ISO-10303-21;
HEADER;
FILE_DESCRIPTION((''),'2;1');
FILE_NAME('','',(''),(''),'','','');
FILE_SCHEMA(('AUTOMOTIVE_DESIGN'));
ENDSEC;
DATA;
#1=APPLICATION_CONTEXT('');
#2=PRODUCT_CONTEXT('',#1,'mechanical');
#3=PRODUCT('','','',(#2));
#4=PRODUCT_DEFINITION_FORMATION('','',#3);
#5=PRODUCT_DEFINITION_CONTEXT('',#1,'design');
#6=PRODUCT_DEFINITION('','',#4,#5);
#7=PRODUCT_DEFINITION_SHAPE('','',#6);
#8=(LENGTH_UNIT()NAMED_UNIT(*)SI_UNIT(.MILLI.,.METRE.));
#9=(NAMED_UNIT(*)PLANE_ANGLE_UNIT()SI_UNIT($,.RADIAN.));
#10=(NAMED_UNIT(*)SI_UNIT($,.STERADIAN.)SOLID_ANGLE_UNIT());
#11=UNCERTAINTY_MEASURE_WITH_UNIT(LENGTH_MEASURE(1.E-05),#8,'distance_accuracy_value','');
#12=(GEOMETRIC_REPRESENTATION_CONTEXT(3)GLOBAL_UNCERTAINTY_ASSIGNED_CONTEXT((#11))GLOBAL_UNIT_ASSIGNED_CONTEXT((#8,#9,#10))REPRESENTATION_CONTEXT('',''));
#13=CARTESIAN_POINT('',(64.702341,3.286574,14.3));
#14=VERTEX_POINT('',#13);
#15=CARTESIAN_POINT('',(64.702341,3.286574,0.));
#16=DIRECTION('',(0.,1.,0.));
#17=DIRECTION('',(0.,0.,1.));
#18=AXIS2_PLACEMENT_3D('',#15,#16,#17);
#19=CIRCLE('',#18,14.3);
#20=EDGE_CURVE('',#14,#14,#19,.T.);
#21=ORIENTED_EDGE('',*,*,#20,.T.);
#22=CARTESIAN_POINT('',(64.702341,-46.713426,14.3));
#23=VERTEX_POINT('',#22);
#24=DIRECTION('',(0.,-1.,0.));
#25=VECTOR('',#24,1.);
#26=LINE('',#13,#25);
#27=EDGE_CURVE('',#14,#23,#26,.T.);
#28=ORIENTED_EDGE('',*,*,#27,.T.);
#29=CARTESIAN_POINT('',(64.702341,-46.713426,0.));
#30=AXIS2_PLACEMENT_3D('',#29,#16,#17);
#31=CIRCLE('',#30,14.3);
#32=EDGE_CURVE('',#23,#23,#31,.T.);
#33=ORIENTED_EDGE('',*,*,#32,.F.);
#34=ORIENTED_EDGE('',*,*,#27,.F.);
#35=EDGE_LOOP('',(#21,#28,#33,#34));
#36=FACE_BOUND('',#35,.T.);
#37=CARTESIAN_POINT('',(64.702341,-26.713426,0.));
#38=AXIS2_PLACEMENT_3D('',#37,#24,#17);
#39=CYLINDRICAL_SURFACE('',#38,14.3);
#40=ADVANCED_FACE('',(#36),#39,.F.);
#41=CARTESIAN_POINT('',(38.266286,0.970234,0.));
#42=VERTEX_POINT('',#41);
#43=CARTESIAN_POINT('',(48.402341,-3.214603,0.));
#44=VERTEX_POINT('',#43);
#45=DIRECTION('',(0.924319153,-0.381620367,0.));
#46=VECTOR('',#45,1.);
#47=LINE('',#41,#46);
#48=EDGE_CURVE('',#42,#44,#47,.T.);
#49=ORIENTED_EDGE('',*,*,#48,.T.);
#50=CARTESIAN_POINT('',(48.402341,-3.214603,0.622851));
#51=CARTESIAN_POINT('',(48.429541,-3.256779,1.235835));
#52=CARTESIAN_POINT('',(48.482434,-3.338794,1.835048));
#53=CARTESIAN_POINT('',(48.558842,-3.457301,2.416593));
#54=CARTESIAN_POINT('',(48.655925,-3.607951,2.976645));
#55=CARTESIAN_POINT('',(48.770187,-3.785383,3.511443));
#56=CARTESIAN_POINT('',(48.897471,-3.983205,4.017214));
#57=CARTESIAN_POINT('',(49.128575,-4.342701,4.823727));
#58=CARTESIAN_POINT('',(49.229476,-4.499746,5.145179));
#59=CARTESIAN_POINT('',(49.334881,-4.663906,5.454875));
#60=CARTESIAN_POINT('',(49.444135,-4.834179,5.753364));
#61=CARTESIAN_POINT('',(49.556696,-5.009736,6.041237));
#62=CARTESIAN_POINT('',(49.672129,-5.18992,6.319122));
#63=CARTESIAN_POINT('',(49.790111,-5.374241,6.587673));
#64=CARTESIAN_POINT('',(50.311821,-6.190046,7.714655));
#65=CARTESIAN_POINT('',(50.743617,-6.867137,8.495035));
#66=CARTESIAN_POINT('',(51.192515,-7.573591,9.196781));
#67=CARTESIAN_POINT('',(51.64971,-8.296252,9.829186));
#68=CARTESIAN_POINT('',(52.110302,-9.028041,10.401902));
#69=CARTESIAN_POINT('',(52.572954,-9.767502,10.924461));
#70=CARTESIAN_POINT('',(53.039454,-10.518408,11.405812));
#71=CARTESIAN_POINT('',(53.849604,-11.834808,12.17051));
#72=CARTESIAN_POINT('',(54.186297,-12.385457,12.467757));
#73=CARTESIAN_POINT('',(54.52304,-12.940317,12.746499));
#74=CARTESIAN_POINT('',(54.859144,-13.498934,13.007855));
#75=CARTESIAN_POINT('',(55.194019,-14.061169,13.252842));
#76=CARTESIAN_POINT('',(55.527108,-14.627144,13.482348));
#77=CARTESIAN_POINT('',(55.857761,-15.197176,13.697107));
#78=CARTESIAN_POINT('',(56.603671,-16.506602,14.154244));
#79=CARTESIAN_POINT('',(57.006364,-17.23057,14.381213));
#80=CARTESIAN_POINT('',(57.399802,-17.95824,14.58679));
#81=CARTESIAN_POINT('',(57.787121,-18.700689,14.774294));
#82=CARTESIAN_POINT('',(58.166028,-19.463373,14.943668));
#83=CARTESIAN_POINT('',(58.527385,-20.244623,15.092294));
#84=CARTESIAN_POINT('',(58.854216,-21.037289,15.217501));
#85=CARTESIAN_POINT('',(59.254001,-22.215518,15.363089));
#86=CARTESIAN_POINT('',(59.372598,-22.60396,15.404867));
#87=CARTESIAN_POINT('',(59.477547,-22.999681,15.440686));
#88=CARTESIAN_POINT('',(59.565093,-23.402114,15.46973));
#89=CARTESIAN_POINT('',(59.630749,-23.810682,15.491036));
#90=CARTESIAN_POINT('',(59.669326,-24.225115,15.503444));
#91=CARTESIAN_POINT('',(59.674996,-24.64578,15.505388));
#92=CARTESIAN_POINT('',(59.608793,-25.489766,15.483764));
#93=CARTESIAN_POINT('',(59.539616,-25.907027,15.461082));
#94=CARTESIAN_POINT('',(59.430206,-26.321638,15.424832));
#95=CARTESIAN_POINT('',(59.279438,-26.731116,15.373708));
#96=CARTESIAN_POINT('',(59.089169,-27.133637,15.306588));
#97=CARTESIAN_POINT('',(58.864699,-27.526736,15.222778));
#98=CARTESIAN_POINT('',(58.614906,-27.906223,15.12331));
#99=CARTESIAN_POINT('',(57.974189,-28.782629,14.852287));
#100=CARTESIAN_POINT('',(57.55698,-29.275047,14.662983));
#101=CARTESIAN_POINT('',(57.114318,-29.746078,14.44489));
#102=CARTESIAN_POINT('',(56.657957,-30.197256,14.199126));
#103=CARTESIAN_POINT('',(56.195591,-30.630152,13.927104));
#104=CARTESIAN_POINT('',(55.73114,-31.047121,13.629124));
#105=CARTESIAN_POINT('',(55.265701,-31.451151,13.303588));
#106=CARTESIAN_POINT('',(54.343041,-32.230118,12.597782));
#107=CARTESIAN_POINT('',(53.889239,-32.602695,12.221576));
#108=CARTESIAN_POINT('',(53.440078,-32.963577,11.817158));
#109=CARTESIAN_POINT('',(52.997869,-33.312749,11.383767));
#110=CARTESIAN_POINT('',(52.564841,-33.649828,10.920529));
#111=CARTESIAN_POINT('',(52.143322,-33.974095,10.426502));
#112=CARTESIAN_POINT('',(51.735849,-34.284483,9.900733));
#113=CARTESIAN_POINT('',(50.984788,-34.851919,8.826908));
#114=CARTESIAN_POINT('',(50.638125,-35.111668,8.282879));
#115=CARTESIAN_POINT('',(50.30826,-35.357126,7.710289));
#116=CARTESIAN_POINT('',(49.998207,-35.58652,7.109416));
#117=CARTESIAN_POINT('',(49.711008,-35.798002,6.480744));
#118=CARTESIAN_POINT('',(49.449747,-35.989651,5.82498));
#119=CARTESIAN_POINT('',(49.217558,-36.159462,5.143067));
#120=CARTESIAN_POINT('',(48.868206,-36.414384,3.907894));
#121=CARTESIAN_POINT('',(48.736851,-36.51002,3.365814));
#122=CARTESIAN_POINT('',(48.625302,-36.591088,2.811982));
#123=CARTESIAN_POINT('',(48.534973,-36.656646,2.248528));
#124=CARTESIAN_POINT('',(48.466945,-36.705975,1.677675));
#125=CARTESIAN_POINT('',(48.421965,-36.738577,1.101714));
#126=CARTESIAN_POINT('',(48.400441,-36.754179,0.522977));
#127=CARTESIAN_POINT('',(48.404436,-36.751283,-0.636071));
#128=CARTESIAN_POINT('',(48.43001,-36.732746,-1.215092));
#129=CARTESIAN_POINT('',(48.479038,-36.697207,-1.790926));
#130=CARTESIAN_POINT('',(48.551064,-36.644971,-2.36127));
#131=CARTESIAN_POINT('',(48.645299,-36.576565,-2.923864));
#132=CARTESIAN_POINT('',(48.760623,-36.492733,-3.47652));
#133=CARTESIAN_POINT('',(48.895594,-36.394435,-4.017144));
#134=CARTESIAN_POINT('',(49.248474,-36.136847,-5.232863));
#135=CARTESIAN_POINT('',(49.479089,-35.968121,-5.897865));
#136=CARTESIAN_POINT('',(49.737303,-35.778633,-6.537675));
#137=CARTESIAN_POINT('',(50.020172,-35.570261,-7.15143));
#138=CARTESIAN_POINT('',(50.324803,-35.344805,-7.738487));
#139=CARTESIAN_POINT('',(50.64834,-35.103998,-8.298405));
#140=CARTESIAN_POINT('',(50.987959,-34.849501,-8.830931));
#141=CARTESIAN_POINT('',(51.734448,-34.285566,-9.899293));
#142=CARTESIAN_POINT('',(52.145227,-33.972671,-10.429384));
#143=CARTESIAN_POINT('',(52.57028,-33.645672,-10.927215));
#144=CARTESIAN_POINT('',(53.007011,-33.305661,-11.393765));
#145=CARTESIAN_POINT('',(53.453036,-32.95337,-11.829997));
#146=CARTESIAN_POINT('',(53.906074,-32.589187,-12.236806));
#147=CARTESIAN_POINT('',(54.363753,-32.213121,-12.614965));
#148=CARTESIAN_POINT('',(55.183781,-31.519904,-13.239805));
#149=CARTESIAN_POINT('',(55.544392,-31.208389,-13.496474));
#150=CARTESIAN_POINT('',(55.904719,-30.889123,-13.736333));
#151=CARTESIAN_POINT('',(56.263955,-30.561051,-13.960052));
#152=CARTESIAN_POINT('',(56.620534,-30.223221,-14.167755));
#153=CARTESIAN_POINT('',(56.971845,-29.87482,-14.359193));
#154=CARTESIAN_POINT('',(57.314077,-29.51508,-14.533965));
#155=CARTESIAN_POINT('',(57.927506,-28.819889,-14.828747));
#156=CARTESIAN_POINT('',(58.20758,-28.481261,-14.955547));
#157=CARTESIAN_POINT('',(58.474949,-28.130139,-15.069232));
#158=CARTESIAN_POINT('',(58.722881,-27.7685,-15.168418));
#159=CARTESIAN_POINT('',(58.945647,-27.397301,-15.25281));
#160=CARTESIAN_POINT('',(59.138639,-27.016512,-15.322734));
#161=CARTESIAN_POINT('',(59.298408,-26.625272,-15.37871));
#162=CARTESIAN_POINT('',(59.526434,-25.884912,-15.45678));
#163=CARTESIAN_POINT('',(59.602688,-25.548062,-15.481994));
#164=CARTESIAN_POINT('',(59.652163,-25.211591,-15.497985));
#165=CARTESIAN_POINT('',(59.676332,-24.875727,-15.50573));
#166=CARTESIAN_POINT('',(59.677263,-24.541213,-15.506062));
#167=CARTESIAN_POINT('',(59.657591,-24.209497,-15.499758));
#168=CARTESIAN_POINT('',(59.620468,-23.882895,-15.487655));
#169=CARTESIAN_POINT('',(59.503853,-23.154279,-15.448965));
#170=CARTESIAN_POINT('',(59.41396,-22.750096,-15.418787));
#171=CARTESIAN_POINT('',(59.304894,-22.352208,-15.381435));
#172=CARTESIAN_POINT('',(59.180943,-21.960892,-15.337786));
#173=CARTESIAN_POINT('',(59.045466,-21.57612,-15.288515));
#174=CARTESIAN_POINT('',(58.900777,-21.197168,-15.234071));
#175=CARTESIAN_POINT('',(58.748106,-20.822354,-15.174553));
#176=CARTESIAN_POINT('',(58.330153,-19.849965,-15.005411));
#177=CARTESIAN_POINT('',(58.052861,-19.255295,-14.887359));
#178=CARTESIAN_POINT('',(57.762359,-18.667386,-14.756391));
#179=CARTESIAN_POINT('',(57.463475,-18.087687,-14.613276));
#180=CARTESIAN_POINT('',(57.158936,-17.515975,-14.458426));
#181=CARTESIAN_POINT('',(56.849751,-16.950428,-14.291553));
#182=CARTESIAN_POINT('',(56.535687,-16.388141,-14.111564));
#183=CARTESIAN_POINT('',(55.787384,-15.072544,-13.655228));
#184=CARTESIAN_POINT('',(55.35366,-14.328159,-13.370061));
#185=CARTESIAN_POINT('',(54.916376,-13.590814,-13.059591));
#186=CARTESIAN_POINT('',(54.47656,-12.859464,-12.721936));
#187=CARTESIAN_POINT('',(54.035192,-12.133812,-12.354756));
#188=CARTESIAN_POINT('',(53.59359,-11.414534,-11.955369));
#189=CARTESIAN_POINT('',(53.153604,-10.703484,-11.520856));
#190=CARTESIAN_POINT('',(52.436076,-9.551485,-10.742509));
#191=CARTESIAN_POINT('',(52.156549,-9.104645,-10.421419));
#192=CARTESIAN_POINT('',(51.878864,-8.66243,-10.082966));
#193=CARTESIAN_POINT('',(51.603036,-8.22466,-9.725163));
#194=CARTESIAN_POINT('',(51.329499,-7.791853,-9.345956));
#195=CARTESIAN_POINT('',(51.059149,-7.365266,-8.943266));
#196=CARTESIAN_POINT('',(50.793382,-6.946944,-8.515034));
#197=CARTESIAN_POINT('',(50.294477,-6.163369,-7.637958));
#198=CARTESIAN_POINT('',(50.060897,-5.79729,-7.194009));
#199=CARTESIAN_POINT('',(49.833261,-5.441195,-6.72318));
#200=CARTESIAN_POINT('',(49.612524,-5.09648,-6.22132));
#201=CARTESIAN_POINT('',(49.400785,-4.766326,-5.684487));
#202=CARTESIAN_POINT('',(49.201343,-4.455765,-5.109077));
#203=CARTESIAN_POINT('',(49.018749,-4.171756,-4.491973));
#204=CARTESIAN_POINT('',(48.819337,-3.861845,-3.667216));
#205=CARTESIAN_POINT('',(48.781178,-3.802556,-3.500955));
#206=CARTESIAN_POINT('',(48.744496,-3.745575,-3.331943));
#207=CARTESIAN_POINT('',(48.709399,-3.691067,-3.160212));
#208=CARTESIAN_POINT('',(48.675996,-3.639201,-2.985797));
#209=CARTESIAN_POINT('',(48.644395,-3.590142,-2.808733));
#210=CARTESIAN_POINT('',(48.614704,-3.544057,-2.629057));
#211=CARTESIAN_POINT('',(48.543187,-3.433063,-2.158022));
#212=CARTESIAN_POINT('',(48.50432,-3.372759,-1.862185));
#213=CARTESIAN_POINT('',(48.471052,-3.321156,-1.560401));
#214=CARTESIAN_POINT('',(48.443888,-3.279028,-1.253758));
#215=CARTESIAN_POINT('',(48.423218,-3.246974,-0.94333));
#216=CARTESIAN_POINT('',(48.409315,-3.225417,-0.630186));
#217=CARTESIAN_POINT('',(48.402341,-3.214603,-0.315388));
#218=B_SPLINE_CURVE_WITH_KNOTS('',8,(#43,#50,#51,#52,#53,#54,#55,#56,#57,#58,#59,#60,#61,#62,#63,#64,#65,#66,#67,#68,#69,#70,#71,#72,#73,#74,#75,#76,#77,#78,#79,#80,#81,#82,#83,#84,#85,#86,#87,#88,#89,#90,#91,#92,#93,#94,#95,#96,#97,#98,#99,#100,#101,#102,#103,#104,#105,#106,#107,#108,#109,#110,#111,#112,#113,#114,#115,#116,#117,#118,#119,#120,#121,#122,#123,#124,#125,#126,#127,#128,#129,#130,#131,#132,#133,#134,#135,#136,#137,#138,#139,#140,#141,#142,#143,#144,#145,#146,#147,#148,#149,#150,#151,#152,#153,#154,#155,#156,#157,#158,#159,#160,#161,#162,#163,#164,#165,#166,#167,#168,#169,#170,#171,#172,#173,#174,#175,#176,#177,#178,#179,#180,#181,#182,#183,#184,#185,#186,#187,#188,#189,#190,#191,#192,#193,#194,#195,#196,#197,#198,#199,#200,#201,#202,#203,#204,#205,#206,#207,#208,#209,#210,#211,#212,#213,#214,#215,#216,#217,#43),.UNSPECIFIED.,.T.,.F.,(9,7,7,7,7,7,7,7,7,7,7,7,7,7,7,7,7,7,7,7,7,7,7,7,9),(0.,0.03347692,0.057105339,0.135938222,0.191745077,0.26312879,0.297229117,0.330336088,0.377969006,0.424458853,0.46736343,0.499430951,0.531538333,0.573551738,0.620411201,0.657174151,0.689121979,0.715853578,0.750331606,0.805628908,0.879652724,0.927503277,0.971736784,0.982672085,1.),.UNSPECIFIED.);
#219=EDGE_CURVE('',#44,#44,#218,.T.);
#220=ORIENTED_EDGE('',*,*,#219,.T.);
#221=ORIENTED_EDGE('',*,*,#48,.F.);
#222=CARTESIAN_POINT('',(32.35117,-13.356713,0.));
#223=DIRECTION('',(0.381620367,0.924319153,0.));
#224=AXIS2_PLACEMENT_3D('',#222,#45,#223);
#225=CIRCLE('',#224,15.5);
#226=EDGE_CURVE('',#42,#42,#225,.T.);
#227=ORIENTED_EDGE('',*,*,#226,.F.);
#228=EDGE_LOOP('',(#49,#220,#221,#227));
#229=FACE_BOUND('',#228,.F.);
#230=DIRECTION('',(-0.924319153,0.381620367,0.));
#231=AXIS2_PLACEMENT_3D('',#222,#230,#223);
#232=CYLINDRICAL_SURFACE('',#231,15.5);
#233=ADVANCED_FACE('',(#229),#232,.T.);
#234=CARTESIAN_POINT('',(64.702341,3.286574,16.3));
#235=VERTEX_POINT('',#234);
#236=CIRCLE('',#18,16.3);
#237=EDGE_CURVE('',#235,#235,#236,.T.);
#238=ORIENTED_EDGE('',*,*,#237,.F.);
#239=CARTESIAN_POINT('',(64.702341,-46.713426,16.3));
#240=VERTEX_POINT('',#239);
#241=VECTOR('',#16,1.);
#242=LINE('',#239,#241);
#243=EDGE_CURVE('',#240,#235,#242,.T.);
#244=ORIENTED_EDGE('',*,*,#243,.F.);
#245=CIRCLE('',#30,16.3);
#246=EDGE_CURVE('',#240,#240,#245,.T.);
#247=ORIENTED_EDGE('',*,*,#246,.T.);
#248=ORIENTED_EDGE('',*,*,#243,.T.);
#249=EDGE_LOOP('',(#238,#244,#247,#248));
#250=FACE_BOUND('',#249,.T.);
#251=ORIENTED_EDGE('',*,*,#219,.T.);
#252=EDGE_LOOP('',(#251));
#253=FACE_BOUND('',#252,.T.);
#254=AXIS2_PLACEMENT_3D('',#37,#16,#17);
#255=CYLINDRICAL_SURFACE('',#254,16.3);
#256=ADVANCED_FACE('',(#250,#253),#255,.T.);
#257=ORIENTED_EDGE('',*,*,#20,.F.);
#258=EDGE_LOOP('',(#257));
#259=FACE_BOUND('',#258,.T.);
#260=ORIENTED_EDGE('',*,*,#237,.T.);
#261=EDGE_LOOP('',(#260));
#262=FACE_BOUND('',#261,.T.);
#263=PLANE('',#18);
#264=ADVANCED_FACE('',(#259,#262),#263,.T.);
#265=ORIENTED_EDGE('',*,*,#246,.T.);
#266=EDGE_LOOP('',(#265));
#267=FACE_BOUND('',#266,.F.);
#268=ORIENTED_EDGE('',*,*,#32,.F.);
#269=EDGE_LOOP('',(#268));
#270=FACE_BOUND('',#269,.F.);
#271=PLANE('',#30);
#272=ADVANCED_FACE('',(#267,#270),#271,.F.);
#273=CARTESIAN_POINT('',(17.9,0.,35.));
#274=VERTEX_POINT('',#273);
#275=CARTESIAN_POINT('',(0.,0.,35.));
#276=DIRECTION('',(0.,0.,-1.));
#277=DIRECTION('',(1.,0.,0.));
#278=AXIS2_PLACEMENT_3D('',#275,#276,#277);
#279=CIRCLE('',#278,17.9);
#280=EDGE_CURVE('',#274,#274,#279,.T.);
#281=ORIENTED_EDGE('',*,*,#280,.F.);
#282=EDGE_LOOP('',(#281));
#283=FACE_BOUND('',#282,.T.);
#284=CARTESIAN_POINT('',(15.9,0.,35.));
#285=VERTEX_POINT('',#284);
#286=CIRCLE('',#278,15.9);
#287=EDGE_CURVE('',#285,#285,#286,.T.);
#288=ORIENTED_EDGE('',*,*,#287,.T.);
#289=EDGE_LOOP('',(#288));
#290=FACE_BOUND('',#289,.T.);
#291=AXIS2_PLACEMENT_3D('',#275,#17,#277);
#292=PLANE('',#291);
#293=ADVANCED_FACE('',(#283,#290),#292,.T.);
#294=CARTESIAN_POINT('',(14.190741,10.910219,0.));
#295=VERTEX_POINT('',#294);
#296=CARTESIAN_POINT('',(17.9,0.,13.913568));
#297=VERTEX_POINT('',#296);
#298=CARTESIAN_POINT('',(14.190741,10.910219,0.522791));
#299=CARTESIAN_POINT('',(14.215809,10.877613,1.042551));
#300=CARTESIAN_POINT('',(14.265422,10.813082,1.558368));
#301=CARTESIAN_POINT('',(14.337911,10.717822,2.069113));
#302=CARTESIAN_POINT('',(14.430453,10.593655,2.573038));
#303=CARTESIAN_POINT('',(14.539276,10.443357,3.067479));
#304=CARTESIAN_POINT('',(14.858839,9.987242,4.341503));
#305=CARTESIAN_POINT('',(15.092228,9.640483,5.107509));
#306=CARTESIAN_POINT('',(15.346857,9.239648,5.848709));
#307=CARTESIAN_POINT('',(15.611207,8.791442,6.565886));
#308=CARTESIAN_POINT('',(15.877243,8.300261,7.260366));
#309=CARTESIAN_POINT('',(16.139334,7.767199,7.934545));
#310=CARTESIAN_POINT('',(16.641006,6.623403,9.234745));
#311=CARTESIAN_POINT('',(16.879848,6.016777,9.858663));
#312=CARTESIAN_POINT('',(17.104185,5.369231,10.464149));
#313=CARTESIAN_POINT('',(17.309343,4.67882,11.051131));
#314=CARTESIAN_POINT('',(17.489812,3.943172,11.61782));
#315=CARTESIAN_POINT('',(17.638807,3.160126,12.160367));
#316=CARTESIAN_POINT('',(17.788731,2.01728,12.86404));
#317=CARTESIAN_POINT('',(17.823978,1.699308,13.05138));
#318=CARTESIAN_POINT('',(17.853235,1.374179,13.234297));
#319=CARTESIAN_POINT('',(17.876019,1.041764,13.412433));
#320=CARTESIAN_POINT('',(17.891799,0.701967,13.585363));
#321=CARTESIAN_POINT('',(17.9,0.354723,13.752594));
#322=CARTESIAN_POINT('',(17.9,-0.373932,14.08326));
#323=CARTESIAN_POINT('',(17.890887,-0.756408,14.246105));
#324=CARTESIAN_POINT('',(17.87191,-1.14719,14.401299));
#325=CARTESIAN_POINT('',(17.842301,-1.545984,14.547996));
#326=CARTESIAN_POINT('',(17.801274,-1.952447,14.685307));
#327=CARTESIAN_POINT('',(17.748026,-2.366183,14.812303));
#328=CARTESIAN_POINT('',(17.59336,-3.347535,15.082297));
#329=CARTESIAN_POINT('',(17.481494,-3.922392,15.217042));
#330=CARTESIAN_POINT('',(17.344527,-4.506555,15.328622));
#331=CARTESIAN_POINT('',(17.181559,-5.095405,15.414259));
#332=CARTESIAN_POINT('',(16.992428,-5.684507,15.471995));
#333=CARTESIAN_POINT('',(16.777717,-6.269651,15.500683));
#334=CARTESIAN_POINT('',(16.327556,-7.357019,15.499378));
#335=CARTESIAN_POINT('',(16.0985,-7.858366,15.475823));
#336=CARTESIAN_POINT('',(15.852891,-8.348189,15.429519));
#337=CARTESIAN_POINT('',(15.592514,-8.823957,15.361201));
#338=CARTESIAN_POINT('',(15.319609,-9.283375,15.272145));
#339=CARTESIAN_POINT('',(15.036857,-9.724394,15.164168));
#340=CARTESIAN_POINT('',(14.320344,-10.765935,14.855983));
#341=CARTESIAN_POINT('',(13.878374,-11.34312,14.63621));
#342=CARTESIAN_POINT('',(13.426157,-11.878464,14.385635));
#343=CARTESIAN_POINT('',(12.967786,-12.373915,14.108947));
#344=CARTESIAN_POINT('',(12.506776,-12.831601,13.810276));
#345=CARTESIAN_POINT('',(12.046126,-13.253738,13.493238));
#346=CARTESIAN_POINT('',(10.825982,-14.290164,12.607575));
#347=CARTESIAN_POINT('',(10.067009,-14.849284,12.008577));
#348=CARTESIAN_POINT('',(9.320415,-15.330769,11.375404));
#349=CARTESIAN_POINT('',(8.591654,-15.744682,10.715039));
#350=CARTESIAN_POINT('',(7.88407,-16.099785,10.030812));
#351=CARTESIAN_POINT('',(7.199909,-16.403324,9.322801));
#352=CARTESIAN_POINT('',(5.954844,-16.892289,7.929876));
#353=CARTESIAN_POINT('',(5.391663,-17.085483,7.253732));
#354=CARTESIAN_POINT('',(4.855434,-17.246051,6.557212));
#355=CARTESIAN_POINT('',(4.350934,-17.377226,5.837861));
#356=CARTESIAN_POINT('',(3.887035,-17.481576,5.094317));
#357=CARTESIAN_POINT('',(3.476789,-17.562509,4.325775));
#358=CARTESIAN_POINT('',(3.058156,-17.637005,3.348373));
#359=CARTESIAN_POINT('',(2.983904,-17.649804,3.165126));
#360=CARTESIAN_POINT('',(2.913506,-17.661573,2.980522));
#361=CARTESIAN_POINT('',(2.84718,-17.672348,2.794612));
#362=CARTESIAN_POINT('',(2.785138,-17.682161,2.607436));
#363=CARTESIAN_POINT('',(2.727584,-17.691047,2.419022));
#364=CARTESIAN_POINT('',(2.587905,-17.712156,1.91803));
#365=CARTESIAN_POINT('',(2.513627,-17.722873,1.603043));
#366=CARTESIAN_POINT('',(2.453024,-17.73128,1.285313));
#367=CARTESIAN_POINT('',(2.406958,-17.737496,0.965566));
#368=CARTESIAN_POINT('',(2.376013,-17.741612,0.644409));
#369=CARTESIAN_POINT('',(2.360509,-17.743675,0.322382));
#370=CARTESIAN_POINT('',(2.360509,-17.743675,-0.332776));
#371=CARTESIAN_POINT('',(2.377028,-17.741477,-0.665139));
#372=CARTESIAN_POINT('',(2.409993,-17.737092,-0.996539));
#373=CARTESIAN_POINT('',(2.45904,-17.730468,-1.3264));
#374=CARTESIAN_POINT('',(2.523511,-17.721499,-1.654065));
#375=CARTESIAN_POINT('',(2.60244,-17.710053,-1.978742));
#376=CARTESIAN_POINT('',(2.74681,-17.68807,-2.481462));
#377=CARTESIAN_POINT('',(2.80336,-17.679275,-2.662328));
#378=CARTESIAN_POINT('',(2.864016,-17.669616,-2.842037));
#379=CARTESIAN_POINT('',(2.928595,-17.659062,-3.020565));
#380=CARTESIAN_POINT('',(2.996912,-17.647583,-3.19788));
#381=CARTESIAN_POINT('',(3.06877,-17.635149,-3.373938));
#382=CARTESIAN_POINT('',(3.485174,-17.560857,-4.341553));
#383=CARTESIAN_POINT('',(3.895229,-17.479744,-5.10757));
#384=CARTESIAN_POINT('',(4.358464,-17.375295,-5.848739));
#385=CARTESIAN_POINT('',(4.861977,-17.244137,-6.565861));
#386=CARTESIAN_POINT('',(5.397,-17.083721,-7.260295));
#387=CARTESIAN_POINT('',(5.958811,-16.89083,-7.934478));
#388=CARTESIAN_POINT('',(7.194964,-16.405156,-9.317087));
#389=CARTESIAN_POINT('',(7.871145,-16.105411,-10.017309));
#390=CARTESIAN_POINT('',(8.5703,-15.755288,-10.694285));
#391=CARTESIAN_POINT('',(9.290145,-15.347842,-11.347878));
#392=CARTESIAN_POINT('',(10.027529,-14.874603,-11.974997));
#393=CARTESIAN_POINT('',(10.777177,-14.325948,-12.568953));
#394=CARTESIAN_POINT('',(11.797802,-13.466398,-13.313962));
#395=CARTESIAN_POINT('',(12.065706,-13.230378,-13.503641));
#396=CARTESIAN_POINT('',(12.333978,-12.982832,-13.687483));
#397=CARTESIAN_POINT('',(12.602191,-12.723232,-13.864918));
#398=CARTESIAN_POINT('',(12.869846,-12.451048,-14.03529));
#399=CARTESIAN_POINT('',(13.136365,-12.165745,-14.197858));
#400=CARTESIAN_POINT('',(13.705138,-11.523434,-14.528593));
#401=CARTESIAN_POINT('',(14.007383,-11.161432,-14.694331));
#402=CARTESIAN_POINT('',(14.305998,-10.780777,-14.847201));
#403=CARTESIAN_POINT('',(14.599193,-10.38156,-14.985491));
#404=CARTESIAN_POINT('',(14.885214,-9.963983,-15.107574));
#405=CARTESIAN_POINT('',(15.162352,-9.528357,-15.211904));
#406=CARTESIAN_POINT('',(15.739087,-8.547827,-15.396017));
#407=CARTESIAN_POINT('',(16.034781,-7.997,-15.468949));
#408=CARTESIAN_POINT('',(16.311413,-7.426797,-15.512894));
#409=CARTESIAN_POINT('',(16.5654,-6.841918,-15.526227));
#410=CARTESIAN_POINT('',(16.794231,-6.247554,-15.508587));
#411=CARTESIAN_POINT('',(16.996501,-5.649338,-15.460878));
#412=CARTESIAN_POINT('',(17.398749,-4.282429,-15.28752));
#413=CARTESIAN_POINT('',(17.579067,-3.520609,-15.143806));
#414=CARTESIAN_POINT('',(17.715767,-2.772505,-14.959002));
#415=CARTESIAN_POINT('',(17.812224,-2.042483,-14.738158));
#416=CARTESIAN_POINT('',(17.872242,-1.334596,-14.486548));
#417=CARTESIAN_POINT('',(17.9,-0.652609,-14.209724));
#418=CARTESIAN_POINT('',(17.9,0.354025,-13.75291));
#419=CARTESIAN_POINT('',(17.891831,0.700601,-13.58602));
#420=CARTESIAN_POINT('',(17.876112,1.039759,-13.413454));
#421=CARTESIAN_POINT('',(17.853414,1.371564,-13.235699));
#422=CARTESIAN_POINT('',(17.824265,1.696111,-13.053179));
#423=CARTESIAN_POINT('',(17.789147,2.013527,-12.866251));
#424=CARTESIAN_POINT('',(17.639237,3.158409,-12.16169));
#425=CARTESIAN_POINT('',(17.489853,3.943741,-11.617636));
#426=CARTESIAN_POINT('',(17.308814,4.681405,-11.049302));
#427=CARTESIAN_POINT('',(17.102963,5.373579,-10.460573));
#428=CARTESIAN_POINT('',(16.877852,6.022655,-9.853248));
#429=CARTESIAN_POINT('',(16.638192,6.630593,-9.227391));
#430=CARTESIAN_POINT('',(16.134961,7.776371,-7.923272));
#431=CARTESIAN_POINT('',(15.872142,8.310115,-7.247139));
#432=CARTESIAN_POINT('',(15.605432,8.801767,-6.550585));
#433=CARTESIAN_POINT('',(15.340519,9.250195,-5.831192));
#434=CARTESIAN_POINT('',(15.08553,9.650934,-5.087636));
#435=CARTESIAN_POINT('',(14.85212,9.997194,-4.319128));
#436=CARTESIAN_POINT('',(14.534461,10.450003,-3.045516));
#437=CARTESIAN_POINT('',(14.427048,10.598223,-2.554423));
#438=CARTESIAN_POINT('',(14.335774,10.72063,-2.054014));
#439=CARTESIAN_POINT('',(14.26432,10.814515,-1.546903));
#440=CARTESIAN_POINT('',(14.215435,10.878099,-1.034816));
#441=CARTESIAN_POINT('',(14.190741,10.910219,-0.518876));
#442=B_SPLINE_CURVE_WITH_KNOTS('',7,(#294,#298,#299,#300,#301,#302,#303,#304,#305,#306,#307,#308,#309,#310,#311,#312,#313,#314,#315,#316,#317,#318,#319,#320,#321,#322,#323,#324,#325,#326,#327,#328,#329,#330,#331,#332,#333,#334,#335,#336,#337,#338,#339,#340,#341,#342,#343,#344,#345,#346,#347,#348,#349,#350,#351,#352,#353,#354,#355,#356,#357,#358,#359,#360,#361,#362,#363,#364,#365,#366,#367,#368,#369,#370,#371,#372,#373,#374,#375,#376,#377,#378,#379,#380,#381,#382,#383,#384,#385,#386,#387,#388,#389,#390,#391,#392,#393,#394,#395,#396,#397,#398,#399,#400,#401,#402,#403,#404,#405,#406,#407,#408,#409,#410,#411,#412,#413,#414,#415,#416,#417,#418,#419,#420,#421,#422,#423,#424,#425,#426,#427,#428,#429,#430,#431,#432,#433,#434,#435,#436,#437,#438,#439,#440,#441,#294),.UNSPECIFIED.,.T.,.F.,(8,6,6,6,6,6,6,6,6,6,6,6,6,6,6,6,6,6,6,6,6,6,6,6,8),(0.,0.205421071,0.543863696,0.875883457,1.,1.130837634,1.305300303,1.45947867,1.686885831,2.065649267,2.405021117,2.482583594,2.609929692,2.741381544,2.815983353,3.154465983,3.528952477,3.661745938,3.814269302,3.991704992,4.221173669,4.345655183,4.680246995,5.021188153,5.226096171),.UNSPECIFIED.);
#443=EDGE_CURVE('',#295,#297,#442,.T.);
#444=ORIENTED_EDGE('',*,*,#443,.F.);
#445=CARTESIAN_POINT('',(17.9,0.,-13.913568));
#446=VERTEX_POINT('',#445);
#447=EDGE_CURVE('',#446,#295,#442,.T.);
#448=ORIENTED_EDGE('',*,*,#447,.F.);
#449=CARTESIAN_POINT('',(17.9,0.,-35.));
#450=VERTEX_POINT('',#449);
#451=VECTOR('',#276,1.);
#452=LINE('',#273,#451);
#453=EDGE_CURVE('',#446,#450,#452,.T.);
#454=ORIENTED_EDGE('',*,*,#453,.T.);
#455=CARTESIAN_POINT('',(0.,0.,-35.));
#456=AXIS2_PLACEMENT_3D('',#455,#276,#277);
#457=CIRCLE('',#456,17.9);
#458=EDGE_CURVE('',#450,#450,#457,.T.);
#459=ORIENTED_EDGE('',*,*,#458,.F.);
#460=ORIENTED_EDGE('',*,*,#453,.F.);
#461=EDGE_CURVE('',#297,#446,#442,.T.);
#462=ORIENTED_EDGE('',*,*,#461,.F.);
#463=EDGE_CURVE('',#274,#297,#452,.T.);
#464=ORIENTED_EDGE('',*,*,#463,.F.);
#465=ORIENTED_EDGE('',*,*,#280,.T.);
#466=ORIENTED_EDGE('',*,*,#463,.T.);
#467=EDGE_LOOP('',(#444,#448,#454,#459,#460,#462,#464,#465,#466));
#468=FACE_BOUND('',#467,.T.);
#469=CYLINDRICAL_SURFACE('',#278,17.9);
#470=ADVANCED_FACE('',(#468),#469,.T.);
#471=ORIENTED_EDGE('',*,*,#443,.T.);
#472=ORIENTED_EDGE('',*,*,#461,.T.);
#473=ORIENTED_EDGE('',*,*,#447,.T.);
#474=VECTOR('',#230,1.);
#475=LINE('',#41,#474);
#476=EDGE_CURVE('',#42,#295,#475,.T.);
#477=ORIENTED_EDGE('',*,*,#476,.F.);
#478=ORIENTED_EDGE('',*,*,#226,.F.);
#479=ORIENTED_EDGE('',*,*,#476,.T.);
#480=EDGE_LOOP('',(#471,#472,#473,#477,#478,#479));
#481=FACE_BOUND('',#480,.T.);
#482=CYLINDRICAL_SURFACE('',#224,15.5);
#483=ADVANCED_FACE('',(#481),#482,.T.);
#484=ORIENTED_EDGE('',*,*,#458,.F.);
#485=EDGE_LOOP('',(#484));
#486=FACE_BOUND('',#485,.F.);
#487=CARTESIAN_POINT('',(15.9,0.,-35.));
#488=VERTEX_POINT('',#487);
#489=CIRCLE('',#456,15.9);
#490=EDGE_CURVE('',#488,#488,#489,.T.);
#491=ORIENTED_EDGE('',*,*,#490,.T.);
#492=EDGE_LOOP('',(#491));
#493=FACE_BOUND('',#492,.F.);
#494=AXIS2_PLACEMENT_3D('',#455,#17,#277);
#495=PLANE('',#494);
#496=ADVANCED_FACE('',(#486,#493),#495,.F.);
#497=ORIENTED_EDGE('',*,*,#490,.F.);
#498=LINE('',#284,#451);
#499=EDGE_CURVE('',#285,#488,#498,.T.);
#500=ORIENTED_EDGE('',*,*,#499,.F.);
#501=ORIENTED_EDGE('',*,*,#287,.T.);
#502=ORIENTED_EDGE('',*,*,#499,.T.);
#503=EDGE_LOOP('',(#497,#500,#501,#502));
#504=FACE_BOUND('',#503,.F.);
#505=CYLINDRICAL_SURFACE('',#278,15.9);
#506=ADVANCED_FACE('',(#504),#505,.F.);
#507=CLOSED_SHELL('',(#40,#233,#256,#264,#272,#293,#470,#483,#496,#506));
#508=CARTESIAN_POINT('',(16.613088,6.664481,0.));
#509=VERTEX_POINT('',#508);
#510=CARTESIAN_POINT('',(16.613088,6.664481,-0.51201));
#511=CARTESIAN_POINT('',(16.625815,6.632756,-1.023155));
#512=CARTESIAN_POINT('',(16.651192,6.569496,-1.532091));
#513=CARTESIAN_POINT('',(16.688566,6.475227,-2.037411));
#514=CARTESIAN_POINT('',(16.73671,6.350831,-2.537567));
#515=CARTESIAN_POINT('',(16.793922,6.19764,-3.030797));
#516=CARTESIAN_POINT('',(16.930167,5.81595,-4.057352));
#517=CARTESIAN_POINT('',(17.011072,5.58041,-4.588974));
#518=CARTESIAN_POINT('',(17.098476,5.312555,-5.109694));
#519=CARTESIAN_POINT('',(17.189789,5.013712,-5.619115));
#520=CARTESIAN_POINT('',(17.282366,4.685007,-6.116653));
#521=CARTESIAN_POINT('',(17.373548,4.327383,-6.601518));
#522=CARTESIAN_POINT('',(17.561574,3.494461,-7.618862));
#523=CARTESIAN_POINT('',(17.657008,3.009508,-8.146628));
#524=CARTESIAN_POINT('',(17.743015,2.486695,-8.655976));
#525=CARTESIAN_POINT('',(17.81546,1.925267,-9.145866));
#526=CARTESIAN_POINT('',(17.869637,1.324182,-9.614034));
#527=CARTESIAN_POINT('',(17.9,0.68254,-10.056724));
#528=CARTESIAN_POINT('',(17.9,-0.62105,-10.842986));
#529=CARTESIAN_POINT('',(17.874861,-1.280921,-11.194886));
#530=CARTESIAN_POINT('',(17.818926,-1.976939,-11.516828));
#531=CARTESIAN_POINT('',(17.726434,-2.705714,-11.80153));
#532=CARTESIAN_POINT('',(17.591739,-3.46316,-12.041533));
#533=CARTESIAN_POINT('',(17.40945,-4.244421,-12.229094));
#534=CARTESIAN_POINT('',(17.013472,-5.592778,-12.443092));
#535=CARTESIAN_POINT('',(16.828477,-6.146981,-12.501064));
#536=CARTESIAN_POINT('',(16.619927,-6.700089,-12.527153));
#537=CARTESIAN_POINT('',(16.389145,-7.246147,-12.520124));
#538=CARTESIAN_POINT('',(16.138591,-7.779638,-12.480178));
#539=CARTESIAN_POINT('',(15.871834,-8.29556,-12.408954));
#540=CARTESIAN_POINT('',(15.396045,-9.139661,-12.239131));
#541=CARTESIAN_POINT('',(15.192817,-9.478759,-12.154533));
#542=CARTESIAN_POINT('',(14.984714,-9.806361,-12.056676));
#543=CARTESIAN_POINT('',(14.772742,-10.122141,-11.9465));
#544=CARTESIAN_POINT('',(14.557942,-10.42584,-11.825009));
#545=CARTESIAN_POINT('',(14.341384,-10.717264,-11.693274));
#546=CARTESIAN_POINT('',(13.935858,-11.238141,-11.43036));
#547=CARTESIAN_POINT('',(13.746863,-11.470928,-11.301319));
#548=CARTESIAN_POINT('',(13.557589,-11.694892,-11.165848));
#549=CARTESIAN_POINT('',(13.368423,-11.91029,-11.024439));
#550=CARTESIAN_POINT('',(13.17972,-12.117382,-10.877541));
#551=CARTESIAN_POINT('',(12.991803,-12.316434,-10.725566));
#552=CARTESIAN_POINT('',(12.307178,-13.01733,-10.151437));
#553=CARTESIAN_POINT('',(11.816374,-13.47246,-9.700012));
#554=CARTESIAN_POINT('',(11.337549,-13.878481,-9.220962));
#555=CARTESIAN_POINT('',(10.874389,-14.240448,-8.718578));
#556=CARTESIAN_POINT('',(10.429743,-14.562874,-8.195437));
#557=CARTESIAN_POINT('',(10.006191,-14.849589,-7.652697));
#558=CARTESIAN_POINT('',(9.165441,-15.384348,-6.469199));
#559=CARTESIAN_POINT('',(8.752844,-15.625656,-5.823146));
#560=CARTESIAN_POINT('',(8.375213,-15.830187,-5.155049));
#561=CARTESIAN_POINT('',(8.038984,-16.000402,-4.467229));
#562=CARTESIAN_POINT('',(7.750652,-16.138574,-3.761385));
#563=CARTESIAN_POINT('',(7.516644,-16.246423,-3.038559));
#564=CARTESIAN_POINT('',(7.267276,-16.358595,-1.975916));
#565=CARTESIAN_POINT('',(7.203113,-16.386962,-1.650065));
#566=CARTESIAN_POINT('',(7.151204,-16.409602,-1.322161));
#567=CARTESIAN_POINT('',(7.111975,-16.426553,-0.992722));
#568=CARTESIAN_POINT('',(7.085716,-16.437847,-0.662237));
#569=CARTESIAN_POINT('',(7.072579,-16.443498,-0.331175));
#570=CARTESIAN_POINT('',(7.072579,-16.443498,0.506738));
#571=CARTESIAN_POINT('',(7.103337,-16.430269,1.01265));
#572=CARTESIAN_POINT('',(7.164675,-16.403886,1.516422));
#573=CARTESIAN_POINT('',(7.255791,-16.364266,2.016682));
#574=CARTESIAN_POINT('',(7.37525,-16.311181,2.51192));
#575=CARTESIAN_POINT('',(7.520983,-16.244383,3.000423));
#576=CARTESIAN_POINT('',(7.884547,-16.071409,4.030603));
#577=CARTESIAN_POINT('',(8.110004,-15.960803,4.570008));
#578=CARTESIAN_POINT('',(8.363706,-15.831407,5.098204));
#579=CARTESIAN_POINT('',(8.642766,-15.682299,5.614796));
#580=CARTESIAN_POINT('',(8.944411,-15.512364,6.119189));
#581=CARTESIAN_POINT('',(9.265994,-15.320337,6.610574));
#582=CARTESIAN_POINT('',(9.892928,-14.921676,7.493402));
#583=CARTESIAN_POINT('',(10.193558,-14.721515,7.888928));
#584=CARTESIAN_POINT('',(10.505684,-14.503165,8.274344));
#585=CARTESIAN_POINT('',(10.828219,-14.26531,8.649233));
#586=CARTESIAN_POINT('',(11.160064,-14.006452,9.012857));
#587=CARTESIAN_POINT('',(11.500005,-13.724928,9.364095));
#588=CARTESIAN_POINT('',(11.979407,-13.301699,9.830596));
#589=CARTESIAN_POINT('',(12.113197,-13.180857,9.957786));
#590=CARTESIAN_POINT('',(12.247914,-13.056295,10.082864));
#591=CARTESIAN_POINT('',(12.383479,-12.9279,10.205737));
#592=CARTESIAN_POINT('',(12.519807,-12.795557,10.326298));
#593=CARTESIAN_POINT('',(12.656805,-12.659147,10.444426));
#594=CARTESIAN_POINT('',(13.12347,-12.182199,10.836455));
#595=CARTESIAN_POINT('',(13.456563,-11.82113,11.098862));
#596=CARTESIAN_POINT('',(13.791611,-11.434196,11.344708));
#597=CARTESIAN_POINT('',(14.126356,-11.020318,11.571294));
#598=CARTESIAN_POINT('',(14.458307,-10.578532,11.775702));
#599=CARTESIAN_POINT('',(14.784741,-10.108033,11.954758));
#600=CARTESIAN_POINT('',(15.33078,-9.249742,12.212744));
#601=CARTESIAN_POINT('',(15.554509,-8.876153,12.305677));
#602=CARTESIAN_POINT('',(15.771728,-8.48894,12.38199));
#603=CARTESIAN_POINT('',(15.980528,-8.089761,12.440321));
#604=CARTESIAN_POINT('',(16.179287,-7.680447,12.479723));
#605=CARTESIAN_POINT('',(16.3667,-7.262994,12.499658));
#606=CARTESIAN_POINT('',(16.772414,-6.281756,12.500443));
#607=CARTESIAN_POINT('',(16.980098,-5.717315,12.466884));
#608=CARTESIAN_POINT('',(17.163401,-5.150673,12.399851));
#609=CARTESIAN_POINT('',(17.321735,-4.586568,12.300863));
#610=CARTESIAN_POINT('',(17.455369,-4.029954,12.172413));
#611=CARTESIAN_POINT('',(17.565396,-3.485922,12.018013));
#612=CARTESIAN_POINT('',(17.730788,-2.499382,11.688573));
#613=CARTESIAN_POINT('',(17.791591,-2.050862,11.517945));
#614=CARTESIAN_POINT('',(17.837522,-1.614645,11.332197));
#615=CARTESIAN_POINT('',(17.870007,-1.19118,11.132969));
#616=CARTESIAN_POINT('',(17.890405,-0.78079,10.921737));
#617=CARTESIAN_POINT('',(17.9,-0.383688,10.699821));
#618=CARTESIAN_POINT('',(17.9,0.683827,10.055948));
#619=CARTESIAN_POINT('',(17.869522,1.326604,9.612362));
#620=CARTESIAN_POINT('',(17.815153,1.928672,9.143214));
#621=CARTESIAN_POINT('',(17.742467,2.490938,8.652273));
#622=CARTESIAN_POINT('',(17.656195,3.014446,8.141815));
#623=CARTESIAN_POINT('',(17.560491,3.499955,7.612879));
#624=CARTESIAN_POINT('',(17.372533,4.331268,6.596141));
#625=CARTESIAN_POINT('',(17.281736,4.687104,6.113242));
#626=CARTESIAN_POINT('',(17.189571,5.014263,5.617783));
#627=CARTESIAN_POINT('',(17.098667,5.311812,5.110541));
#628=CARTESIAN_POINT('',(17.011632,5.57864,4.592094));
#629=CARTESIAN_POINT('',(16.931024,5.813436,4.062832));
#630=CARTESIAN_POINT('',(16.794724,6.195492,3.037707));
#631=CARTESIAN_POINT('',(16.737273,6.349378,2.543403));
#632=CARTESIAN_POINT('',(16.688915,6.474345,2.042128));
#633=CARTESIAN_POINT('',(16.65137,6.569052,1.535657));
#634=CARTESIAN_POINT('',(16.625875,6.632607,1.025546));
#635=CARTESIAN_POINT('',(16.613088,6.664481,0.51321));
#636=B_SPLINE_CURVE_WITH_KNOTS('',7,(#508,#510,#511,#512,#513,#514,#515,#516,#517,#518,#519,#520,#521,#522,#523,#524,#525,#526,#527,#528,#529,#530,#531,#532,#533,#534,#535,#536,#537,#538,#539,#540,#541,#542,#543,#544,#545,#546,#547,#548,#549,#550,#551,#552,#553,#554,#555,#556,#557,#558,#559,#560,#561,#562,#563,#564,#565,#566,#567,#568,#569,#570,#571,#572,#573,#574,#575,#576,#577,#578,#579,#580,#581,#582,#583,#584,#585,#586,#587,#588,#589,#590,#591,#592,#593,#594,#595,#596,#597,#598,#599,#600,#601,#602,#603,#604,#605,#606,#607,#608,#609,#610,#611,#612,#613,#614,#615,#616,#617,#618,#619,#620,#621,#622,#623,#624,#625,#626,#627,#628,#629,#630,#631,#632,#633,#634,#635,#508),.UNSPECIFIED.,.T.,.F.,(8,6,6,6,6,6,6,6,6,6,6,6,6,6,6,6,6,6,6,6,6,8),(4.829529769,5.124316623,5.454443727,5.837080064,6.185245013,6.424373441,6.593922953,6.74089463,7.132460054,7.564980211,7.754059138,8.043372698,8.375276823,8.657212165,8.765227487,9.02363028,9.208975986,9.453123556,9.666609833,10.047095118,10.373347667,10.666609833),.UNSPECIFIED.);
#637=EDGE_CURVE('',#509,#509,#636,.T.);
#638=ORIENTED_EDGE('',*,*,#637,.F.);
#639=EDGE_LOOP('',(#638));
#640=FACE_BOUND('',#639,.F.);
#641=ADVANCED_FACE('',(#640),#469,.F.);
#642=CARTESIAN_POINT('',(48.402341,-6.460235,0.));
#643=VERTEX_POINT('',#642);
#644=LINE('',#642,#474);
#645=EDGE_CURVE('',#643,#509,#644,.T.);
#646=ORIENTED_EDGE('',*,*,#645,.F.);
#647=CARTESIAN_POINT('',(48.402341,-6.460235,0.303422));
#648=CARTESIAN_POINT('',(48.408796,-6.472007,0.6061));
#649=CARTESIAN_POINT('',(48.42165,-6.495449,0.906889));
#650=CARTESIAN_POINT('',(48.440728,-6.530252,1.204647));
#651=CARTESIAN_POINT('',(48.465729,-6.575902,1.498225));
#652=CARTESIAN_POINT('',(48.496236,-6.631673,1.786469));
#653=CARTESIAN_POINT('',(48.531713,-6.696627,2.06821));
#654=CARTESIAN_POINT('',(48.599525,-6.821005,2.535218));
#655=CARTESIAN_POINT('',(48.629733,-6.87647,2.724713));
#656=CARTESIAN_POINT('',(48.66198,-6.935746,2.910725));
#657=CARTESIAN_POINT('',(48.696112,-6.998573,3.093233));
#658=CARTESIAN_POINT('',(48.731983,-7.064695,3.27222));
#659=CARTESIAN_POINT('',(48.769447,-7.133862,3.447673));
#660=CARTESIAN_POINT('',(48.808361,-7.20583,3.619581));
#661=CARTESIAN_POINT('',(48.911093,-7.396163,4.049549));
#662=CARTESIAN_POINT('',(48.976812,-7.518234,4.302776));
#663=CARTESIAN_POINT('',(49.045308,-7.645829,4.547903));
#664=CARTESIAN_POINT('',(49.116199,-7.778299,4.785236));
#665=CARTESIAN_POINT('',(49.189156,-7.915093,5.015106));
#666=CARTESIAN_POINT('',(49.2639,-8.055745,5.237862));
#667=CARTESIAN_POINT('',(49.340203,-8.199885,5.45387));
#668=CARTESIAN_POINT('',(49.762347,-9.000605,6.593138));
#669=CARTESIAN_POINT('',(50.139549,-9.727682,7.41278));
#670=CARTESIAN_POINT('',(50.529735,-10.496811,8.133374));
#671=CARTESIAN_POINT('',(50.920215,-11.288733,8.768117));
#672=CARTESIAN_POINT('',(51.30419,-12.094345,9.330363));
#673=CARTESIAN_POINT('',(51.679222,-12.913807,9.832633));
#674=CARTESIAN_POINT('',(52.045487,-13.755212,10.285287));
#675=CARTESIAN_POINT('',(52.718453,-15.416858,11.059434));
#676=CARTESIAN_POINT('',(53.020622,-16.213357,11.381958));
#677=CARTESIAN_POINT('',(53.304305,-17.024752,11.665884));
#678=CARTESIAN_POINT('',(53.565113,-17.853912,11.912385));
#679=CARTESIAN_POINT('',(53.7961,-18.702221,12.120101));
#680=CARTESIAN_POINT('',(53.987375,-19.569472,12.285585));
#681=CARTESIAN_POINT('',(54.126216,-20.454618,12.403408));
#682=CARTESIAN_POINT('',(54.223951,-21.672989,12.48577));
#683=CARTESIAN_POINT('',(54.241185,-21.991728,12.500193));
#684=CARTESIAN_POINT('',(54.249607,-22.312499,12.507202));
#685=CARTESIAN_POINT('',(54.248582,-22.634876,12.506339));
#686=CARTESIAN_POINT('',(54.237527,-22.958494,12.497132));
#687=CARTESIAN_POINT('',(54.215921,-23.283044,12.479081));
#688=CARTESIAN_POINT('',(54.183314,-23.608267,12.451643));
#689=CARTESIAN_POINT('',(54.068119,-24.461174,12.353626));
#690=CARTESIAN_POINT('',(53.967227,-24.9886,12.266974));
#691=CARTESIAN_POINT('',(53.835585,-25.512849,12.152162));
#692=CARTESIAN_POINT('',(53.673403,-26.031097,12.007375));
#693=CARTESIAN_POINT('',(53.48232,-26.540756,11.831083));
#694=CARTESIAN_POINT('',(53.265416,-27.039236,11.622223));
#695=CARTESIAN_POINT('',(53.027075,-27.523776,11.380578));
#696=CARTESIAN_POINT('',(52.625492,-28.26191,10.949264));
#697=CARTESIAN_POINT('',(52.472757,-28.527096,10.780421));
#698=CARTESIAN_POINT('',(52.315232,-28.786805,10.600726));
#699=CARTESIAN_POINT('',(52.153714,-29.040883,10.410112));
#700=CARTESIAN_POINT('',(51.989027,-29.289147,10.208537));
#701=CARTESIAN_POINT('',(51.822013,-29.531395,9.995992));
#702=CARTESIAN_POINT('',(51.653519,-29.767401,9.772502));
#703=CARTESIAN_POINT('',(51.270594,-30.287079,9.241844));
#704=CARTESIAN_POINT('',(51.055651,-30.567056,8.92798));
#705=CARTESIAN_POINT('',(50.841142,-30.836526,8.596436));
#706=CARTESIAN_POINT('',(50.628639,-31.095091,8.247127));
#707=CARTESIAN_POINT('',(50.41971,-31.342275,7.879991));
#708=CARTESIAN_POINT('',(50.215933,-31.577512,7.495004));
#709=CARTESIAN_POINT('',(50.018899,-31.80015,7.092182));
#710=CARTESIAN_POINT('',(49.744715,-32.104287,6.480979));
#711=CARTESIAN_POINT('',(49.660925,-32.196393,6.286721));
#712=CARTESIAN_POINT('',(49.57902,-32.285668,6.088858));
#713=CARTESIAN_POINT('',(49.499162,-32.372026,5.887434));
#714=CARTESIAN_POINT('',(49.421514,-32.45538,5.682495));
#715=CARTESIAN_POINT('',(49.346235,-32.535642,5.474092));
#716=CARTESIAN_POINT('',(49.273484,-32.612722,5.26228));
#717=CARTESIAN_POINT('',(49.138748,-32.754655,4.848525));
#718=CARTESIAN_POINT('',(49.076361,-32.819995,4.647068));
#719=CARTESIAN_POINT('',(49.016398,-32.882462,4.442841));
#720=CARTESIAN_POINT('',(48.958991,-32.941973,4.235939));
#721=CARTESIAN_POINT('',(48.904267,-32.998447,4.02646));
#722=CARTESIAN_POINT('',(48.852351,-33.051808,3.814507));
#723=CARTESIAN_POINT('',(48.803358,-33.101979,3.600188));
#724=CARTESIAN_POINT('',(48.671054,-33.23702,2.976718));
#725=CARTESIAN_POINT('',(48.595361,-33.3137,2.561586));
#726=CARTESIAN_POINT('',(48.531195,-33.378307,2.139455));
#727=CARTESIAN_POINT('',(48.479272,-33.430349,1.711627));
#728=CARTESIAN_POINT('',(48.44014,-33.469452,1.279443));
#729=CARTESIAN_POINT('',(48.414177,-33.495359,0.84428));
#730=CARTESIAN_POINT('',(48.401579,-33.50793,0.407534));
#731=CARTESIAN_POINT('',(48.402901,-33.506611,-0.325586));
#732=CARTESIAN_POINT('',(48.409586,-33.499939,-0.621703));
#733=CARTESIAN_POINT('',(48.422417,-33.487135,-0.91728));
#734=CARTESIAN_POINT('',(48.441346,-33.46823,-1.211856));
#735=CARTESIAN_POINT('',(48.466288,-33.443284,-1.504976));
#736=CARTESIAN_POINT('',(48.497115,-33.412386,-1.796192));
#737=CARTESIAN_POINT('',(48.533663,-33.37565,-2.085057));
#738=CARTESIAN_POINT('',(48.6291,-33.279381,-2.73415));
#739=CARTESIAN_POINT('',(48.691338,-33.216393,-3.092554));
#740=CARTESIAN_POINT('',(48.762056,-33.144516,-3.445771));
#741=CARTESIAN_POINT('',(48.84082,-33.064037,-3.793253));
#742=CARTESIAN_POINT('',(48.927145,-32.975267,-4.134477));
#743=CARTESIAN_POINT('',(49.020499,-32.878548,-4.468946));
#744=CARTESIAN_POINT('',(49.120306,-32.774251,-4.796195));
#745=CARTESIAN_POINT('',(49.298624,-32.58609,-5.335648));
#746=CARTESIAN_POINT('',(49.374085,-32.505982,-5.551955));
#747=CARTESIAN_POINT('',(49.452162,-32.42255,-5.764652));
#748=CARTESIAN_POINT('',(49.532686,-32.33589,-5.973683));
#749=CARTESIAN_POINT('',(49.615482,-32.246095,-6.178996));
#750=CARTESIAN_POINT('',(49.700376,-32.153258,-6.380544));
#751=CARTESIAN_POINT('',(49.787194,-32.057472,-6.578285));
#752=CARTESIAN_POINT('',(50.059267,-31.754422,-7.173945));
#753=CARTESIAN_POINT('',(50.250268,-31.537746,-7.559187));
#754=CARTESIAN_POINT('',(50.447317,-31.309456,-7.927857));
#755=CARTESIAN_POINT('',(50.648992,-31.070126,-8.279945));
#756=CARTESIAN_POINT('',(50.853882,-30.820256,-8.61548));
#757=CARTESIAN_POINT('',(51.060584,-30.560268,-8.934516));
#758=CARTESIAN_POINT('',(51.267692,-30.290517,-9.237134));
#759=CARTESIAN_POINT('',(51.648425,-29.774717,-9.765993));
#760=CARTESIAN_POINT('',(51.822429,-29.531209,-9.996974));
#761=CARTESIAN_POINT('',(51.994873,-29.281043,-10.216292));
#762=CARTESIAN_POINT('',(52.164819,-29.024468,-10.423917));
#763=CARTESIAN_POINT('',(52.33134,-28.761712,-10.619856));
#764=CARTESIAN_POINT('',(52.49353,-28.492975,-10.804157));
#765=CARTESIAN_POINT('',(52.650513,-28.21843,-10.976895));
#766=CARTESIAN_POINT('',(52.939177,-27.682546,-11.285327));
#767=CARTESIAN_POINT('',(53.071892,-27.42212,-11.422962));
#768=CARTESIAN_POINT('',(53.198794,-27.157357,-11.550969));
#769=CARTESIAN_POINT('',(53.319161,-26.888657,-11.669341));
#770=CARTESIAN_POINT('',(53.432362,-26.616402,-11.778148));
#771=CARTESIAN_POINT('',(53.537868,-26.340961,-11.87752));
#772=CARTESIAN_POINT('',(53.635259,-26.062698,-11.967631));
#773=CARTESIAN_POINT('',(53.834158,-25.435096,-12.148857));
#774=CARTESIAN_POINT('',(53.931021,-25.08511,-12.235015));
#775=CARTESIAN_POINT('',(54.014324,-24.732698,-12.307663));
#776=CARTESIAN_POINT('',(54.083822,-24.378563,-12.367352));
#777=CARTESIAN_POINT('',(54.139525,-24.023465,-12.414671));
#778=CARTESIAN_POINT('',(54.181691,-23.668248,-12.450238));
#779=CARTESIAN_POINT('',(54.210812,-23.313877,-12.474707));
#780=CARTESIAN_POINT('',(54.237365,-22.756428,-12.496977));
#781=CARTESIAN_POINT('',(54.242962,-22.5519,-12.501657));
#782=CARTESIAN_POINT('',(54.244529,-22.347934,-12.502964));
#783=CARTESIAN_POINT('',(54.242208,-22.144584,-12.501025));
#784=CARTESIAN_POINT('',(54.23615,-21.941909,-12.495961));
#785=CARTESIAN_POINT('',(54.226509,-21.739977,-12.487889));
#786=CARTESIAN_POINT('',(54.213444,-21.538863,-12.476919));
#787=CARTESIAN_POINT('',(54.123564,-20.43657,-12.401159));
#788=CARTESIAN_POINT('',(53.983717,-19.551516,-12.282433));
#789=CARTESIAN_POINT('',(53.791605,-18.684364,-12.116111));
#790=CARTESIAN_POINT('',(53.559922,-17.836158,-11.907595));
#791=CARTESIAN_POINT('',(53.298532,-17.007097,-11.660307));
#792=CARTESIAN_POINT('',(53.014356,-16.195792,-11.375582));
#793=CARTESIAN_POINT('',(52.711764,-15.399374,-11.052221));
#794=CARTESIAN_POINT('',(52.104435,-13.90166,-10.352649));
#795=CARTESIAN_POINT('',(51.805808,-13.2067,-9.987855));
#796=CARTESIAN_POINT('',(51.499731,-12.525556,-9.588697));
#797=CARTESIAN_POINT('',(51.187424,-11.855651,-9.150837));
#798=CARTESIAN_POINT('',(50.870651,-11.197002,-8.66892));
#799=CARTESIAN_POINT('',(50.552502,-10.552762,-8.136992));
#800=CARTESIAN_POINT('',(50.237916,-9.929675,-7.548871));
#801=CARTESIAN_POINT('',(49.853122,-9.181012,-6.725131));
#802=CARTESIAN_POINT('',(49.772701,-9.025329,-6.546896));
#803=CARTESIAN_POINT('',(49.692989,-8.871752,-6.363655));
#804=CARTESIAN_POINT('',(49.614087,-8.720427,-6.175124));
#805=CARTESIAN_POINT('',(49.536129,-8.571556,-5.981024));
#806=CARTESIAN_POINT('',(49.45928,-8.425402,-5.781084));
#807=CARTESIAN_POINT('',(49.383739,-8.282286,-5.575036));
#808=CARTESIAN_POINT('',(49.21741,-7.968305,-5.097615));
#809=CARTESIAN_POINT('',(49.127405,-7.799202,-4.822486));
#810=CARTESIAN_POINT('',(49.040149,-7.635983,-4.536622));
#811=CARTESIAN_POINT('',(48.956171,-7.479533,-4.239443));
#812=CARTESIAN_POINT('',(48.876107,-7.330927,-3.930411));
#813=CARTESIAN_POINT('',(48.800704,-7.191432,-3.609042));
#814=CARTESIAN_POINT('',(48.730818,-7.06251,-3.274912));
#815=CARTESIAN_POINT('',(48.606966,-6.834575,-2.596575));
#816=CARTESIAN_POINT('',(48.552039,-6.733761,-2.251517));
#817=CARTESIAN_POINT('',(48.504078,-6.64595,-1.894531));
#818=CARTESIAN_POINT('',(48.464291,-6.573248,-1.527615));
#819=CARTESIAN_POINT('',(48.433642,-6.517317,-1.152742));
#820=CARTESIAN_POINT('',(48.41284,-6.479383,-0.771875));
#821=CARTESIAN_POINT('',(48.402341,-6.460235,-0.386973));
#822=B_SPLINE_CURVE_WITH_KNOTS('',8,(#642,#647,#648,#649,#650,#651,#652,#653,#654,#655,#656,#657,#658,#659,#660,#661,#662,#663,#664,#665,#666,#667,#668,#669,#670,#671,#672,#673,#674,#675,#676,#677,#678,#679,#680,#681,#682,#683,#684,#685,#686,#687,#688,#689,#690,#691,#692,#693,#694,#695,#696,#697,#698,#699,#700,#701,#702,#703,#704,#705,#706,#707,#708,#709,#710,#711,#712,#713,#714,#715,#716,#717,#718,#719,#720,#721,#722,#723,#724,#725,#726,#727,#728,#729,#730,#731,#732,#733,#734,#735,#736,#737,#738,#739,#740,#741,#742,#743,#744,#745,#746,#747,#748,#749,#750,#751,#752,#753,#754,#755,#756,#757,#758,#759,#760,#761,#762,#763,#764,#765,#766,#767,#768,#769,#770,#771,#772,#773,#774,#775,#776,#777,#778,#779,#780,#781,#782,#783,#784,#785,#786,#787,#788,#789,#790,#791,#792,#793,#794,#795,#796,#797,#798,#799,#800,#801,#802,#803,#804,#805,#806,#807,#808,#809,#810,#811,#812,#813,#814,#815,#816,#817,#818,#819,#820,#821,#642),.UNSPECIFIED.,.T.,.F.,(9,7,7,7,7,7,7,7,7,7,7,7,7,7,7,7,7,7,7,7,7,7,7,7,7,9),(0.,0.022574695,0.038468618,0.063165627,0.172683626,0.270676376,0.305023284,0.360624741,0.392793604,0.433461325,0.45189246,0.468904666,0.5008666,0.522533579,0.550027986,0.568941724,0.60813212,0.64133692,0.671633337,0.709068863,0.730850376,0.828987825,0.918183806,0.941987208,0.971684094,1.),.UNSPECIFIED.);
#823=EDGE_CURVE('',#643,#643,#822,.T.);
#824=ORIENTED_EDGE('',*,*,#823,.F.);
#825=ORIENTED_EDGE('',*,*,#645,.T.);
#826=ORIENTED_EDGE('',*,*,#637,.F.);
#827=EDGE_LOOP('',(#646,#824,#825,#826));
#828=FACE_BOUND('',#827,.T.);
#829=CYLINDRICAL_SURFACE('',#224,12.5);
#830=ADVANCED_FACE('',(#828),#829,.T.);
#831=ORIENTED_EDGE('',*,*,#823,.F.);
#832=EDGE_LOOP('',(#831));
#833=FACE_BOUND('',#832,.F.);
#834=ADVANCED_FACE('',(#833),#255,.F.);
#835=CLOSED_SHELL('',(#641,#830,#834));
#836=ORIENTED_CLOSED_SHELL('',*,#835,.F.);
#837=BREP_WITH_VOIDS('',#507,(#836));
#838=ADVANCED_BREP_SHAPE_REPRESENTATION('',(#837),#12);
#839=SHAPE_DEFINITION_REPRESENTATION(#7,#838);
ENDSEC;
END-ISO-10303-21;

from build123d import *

# Parameters (mm, degrees)
ESQUISSE1_R                         = 17.9
ESQUISSE1_R_2                       = 15.9
ESQUISSE5_R                         = 16.3
ESQUISSE5_R_2                       = 14.3
BOSS_EXTRU_1_DEPTH                  = 30
BOSS_EXTRU_1_DEPTH_BACK             = 20
BOSS_EXTRU_2_REACH                  = 71.734
BOSS_EXTRU_2_END_RADIUS             = 16.3
ESQUISSE8_R                         = 15.5
ESQUISSE8_R_2                       = 12.5
BOSS_EXTRU_2_DIRECTION_2_REACH      = 71.734
BOSS_EXTRU_2_DIRECTION_2_END_RADIUS = 17.9


with BuildPart() as part:
    # Balayage1: sweep along a path in Esquisse2
    with BuildLine(Plane(origin=(0, 0, 0), x_dir=(0, 0, -1), z_dir=(1, 0, 0))) as balayage1_path:
        Line((-35, 0), (35, 0))
    # Esquisse1 → Balayage1 (sweep)
    with BuildSketch(Plane.XY):
        Circle(ESQUISSE1_R)
        Circle(ESQUISSE1_R_2, mode=Mode.SUBTRACT)
    sweep(path=balayage1_path.line)



with BuildPart() as body_2:
    # Esquisse5 → Boss.-Extru.1 (new, two sides)
    with BuildSketch(Plane(origin=(0, -26.71342567, 0), x_dir=(1, 0, 0), z_dir=(0, 1, 0))) as boss_extru_1_sk:
        with Locations(Location((64.702340676, 0, 0), (0, 0, 270))):
            Circle(ESQUISSE5_R)
        with Locations(Location((64.702340676, 0, 0), (0, 0, 270))):
            Circle(ESQUISSE5_R_2, mode=Mode.SUBTRACT)
    extrude(amount=BOSS_EXTRU_1_DEPTH)
    extrude(boss_extru_1_sk.sketch, amount=-BOSS_EXTRU_1_DEPTH_BACK)


with BuildPart() as part_1:
    add(part.part)

    add(body_2.part)  # Boss.-Extru.2 merges body 2
    # Boss.-Extru.2: up to this cylinder (the profile starts outside it)
    boss_extru_2_end = Plane(origin=(64.702340676, -27.278432, 0), z_dir=(0, 1, 0)) * Cylinder(BOSS_EXTRU_2_END_RADIUS, 177.068, mode=Mode.PRIVATE)
    # Esquisse8 → Boss.-Extru.2 (add, up to the surface)
    with BuildSketch(Plane(origin=(32.351170338, -13.356712835, 0), x_dir=(0, 0, -1), z_dir=(0.9243191525163077, -0.381620366714795, 0)), mode=Mode.PRIVATE) as boss_extru_2_sk1:
        with Locations(Location((0, 0, 0), (0, 0, 90))):
            Circle(ESQUISSE8_R)
        with Locations(Location((0, 0, 0), (0, 0, 90))):
            Circle(ESQUISSE8_R_2, mode=Mode.SUBTRACT)
    boss_extru_2_tool1 = extrude(boss_extru_2_sk1.sketch, amount=BOSS_EXTRU_2_REACH, mode=Mode.PRIVATE) - boss_extru_2_end
    add(boss_extru_2_tool1.solids().sort_by_distance((26.603359, -27.278432, 0))[0])

    # Boss.-Extru.2 direction 2: up to this cylinder (the profile starts outside it)
    boss_extru_2_direction_2_end = Plane(origin=(0, 0, 0), z_dir=(0, 0, 1)) * Cylinder(BOSS_EXTRU_2_DIRECTION_2_END_RADIUS, 180.268, mode=Mode.PRIVATE)
    # Esquisse8 → Boss.-Extru.2 direction 2 (add, up to the surface)
    with BuildSketch(Plane(origin=(32.351170338, -13.356712835, 0), x_dir=(0, 0, -1), z_dir=(0.9243191525163077, -0.381620366714795, 0)), mode=Mode.PRIVATE) as boss_extru_2_direction_2_sk1:
        with Locations(Location((0, 0, 0), (0, 0, 90))):
            Circle(ESQUISSE8_R)
        with Locations(Location((0, 0, 0), (0, 0, 90))):
            Circle(ESQUISSE8_R_2, mode=Mode.SUBTRACT)
    boss_extru_2_direction_2_tool1 = extrude(boss_extru_2_direction_2_sk1.sketch, amount=-BOSS_EXTRU_2_DIRECTION_2_REACH, mode=Mode.PRIVATE) - boss_extru_2_direction_2_end
    add(boss_extru_2_direction_2_tool1.solids().sort_by_distance((26.603359, -27.278432, 0))[0])


solid = part_1.part
